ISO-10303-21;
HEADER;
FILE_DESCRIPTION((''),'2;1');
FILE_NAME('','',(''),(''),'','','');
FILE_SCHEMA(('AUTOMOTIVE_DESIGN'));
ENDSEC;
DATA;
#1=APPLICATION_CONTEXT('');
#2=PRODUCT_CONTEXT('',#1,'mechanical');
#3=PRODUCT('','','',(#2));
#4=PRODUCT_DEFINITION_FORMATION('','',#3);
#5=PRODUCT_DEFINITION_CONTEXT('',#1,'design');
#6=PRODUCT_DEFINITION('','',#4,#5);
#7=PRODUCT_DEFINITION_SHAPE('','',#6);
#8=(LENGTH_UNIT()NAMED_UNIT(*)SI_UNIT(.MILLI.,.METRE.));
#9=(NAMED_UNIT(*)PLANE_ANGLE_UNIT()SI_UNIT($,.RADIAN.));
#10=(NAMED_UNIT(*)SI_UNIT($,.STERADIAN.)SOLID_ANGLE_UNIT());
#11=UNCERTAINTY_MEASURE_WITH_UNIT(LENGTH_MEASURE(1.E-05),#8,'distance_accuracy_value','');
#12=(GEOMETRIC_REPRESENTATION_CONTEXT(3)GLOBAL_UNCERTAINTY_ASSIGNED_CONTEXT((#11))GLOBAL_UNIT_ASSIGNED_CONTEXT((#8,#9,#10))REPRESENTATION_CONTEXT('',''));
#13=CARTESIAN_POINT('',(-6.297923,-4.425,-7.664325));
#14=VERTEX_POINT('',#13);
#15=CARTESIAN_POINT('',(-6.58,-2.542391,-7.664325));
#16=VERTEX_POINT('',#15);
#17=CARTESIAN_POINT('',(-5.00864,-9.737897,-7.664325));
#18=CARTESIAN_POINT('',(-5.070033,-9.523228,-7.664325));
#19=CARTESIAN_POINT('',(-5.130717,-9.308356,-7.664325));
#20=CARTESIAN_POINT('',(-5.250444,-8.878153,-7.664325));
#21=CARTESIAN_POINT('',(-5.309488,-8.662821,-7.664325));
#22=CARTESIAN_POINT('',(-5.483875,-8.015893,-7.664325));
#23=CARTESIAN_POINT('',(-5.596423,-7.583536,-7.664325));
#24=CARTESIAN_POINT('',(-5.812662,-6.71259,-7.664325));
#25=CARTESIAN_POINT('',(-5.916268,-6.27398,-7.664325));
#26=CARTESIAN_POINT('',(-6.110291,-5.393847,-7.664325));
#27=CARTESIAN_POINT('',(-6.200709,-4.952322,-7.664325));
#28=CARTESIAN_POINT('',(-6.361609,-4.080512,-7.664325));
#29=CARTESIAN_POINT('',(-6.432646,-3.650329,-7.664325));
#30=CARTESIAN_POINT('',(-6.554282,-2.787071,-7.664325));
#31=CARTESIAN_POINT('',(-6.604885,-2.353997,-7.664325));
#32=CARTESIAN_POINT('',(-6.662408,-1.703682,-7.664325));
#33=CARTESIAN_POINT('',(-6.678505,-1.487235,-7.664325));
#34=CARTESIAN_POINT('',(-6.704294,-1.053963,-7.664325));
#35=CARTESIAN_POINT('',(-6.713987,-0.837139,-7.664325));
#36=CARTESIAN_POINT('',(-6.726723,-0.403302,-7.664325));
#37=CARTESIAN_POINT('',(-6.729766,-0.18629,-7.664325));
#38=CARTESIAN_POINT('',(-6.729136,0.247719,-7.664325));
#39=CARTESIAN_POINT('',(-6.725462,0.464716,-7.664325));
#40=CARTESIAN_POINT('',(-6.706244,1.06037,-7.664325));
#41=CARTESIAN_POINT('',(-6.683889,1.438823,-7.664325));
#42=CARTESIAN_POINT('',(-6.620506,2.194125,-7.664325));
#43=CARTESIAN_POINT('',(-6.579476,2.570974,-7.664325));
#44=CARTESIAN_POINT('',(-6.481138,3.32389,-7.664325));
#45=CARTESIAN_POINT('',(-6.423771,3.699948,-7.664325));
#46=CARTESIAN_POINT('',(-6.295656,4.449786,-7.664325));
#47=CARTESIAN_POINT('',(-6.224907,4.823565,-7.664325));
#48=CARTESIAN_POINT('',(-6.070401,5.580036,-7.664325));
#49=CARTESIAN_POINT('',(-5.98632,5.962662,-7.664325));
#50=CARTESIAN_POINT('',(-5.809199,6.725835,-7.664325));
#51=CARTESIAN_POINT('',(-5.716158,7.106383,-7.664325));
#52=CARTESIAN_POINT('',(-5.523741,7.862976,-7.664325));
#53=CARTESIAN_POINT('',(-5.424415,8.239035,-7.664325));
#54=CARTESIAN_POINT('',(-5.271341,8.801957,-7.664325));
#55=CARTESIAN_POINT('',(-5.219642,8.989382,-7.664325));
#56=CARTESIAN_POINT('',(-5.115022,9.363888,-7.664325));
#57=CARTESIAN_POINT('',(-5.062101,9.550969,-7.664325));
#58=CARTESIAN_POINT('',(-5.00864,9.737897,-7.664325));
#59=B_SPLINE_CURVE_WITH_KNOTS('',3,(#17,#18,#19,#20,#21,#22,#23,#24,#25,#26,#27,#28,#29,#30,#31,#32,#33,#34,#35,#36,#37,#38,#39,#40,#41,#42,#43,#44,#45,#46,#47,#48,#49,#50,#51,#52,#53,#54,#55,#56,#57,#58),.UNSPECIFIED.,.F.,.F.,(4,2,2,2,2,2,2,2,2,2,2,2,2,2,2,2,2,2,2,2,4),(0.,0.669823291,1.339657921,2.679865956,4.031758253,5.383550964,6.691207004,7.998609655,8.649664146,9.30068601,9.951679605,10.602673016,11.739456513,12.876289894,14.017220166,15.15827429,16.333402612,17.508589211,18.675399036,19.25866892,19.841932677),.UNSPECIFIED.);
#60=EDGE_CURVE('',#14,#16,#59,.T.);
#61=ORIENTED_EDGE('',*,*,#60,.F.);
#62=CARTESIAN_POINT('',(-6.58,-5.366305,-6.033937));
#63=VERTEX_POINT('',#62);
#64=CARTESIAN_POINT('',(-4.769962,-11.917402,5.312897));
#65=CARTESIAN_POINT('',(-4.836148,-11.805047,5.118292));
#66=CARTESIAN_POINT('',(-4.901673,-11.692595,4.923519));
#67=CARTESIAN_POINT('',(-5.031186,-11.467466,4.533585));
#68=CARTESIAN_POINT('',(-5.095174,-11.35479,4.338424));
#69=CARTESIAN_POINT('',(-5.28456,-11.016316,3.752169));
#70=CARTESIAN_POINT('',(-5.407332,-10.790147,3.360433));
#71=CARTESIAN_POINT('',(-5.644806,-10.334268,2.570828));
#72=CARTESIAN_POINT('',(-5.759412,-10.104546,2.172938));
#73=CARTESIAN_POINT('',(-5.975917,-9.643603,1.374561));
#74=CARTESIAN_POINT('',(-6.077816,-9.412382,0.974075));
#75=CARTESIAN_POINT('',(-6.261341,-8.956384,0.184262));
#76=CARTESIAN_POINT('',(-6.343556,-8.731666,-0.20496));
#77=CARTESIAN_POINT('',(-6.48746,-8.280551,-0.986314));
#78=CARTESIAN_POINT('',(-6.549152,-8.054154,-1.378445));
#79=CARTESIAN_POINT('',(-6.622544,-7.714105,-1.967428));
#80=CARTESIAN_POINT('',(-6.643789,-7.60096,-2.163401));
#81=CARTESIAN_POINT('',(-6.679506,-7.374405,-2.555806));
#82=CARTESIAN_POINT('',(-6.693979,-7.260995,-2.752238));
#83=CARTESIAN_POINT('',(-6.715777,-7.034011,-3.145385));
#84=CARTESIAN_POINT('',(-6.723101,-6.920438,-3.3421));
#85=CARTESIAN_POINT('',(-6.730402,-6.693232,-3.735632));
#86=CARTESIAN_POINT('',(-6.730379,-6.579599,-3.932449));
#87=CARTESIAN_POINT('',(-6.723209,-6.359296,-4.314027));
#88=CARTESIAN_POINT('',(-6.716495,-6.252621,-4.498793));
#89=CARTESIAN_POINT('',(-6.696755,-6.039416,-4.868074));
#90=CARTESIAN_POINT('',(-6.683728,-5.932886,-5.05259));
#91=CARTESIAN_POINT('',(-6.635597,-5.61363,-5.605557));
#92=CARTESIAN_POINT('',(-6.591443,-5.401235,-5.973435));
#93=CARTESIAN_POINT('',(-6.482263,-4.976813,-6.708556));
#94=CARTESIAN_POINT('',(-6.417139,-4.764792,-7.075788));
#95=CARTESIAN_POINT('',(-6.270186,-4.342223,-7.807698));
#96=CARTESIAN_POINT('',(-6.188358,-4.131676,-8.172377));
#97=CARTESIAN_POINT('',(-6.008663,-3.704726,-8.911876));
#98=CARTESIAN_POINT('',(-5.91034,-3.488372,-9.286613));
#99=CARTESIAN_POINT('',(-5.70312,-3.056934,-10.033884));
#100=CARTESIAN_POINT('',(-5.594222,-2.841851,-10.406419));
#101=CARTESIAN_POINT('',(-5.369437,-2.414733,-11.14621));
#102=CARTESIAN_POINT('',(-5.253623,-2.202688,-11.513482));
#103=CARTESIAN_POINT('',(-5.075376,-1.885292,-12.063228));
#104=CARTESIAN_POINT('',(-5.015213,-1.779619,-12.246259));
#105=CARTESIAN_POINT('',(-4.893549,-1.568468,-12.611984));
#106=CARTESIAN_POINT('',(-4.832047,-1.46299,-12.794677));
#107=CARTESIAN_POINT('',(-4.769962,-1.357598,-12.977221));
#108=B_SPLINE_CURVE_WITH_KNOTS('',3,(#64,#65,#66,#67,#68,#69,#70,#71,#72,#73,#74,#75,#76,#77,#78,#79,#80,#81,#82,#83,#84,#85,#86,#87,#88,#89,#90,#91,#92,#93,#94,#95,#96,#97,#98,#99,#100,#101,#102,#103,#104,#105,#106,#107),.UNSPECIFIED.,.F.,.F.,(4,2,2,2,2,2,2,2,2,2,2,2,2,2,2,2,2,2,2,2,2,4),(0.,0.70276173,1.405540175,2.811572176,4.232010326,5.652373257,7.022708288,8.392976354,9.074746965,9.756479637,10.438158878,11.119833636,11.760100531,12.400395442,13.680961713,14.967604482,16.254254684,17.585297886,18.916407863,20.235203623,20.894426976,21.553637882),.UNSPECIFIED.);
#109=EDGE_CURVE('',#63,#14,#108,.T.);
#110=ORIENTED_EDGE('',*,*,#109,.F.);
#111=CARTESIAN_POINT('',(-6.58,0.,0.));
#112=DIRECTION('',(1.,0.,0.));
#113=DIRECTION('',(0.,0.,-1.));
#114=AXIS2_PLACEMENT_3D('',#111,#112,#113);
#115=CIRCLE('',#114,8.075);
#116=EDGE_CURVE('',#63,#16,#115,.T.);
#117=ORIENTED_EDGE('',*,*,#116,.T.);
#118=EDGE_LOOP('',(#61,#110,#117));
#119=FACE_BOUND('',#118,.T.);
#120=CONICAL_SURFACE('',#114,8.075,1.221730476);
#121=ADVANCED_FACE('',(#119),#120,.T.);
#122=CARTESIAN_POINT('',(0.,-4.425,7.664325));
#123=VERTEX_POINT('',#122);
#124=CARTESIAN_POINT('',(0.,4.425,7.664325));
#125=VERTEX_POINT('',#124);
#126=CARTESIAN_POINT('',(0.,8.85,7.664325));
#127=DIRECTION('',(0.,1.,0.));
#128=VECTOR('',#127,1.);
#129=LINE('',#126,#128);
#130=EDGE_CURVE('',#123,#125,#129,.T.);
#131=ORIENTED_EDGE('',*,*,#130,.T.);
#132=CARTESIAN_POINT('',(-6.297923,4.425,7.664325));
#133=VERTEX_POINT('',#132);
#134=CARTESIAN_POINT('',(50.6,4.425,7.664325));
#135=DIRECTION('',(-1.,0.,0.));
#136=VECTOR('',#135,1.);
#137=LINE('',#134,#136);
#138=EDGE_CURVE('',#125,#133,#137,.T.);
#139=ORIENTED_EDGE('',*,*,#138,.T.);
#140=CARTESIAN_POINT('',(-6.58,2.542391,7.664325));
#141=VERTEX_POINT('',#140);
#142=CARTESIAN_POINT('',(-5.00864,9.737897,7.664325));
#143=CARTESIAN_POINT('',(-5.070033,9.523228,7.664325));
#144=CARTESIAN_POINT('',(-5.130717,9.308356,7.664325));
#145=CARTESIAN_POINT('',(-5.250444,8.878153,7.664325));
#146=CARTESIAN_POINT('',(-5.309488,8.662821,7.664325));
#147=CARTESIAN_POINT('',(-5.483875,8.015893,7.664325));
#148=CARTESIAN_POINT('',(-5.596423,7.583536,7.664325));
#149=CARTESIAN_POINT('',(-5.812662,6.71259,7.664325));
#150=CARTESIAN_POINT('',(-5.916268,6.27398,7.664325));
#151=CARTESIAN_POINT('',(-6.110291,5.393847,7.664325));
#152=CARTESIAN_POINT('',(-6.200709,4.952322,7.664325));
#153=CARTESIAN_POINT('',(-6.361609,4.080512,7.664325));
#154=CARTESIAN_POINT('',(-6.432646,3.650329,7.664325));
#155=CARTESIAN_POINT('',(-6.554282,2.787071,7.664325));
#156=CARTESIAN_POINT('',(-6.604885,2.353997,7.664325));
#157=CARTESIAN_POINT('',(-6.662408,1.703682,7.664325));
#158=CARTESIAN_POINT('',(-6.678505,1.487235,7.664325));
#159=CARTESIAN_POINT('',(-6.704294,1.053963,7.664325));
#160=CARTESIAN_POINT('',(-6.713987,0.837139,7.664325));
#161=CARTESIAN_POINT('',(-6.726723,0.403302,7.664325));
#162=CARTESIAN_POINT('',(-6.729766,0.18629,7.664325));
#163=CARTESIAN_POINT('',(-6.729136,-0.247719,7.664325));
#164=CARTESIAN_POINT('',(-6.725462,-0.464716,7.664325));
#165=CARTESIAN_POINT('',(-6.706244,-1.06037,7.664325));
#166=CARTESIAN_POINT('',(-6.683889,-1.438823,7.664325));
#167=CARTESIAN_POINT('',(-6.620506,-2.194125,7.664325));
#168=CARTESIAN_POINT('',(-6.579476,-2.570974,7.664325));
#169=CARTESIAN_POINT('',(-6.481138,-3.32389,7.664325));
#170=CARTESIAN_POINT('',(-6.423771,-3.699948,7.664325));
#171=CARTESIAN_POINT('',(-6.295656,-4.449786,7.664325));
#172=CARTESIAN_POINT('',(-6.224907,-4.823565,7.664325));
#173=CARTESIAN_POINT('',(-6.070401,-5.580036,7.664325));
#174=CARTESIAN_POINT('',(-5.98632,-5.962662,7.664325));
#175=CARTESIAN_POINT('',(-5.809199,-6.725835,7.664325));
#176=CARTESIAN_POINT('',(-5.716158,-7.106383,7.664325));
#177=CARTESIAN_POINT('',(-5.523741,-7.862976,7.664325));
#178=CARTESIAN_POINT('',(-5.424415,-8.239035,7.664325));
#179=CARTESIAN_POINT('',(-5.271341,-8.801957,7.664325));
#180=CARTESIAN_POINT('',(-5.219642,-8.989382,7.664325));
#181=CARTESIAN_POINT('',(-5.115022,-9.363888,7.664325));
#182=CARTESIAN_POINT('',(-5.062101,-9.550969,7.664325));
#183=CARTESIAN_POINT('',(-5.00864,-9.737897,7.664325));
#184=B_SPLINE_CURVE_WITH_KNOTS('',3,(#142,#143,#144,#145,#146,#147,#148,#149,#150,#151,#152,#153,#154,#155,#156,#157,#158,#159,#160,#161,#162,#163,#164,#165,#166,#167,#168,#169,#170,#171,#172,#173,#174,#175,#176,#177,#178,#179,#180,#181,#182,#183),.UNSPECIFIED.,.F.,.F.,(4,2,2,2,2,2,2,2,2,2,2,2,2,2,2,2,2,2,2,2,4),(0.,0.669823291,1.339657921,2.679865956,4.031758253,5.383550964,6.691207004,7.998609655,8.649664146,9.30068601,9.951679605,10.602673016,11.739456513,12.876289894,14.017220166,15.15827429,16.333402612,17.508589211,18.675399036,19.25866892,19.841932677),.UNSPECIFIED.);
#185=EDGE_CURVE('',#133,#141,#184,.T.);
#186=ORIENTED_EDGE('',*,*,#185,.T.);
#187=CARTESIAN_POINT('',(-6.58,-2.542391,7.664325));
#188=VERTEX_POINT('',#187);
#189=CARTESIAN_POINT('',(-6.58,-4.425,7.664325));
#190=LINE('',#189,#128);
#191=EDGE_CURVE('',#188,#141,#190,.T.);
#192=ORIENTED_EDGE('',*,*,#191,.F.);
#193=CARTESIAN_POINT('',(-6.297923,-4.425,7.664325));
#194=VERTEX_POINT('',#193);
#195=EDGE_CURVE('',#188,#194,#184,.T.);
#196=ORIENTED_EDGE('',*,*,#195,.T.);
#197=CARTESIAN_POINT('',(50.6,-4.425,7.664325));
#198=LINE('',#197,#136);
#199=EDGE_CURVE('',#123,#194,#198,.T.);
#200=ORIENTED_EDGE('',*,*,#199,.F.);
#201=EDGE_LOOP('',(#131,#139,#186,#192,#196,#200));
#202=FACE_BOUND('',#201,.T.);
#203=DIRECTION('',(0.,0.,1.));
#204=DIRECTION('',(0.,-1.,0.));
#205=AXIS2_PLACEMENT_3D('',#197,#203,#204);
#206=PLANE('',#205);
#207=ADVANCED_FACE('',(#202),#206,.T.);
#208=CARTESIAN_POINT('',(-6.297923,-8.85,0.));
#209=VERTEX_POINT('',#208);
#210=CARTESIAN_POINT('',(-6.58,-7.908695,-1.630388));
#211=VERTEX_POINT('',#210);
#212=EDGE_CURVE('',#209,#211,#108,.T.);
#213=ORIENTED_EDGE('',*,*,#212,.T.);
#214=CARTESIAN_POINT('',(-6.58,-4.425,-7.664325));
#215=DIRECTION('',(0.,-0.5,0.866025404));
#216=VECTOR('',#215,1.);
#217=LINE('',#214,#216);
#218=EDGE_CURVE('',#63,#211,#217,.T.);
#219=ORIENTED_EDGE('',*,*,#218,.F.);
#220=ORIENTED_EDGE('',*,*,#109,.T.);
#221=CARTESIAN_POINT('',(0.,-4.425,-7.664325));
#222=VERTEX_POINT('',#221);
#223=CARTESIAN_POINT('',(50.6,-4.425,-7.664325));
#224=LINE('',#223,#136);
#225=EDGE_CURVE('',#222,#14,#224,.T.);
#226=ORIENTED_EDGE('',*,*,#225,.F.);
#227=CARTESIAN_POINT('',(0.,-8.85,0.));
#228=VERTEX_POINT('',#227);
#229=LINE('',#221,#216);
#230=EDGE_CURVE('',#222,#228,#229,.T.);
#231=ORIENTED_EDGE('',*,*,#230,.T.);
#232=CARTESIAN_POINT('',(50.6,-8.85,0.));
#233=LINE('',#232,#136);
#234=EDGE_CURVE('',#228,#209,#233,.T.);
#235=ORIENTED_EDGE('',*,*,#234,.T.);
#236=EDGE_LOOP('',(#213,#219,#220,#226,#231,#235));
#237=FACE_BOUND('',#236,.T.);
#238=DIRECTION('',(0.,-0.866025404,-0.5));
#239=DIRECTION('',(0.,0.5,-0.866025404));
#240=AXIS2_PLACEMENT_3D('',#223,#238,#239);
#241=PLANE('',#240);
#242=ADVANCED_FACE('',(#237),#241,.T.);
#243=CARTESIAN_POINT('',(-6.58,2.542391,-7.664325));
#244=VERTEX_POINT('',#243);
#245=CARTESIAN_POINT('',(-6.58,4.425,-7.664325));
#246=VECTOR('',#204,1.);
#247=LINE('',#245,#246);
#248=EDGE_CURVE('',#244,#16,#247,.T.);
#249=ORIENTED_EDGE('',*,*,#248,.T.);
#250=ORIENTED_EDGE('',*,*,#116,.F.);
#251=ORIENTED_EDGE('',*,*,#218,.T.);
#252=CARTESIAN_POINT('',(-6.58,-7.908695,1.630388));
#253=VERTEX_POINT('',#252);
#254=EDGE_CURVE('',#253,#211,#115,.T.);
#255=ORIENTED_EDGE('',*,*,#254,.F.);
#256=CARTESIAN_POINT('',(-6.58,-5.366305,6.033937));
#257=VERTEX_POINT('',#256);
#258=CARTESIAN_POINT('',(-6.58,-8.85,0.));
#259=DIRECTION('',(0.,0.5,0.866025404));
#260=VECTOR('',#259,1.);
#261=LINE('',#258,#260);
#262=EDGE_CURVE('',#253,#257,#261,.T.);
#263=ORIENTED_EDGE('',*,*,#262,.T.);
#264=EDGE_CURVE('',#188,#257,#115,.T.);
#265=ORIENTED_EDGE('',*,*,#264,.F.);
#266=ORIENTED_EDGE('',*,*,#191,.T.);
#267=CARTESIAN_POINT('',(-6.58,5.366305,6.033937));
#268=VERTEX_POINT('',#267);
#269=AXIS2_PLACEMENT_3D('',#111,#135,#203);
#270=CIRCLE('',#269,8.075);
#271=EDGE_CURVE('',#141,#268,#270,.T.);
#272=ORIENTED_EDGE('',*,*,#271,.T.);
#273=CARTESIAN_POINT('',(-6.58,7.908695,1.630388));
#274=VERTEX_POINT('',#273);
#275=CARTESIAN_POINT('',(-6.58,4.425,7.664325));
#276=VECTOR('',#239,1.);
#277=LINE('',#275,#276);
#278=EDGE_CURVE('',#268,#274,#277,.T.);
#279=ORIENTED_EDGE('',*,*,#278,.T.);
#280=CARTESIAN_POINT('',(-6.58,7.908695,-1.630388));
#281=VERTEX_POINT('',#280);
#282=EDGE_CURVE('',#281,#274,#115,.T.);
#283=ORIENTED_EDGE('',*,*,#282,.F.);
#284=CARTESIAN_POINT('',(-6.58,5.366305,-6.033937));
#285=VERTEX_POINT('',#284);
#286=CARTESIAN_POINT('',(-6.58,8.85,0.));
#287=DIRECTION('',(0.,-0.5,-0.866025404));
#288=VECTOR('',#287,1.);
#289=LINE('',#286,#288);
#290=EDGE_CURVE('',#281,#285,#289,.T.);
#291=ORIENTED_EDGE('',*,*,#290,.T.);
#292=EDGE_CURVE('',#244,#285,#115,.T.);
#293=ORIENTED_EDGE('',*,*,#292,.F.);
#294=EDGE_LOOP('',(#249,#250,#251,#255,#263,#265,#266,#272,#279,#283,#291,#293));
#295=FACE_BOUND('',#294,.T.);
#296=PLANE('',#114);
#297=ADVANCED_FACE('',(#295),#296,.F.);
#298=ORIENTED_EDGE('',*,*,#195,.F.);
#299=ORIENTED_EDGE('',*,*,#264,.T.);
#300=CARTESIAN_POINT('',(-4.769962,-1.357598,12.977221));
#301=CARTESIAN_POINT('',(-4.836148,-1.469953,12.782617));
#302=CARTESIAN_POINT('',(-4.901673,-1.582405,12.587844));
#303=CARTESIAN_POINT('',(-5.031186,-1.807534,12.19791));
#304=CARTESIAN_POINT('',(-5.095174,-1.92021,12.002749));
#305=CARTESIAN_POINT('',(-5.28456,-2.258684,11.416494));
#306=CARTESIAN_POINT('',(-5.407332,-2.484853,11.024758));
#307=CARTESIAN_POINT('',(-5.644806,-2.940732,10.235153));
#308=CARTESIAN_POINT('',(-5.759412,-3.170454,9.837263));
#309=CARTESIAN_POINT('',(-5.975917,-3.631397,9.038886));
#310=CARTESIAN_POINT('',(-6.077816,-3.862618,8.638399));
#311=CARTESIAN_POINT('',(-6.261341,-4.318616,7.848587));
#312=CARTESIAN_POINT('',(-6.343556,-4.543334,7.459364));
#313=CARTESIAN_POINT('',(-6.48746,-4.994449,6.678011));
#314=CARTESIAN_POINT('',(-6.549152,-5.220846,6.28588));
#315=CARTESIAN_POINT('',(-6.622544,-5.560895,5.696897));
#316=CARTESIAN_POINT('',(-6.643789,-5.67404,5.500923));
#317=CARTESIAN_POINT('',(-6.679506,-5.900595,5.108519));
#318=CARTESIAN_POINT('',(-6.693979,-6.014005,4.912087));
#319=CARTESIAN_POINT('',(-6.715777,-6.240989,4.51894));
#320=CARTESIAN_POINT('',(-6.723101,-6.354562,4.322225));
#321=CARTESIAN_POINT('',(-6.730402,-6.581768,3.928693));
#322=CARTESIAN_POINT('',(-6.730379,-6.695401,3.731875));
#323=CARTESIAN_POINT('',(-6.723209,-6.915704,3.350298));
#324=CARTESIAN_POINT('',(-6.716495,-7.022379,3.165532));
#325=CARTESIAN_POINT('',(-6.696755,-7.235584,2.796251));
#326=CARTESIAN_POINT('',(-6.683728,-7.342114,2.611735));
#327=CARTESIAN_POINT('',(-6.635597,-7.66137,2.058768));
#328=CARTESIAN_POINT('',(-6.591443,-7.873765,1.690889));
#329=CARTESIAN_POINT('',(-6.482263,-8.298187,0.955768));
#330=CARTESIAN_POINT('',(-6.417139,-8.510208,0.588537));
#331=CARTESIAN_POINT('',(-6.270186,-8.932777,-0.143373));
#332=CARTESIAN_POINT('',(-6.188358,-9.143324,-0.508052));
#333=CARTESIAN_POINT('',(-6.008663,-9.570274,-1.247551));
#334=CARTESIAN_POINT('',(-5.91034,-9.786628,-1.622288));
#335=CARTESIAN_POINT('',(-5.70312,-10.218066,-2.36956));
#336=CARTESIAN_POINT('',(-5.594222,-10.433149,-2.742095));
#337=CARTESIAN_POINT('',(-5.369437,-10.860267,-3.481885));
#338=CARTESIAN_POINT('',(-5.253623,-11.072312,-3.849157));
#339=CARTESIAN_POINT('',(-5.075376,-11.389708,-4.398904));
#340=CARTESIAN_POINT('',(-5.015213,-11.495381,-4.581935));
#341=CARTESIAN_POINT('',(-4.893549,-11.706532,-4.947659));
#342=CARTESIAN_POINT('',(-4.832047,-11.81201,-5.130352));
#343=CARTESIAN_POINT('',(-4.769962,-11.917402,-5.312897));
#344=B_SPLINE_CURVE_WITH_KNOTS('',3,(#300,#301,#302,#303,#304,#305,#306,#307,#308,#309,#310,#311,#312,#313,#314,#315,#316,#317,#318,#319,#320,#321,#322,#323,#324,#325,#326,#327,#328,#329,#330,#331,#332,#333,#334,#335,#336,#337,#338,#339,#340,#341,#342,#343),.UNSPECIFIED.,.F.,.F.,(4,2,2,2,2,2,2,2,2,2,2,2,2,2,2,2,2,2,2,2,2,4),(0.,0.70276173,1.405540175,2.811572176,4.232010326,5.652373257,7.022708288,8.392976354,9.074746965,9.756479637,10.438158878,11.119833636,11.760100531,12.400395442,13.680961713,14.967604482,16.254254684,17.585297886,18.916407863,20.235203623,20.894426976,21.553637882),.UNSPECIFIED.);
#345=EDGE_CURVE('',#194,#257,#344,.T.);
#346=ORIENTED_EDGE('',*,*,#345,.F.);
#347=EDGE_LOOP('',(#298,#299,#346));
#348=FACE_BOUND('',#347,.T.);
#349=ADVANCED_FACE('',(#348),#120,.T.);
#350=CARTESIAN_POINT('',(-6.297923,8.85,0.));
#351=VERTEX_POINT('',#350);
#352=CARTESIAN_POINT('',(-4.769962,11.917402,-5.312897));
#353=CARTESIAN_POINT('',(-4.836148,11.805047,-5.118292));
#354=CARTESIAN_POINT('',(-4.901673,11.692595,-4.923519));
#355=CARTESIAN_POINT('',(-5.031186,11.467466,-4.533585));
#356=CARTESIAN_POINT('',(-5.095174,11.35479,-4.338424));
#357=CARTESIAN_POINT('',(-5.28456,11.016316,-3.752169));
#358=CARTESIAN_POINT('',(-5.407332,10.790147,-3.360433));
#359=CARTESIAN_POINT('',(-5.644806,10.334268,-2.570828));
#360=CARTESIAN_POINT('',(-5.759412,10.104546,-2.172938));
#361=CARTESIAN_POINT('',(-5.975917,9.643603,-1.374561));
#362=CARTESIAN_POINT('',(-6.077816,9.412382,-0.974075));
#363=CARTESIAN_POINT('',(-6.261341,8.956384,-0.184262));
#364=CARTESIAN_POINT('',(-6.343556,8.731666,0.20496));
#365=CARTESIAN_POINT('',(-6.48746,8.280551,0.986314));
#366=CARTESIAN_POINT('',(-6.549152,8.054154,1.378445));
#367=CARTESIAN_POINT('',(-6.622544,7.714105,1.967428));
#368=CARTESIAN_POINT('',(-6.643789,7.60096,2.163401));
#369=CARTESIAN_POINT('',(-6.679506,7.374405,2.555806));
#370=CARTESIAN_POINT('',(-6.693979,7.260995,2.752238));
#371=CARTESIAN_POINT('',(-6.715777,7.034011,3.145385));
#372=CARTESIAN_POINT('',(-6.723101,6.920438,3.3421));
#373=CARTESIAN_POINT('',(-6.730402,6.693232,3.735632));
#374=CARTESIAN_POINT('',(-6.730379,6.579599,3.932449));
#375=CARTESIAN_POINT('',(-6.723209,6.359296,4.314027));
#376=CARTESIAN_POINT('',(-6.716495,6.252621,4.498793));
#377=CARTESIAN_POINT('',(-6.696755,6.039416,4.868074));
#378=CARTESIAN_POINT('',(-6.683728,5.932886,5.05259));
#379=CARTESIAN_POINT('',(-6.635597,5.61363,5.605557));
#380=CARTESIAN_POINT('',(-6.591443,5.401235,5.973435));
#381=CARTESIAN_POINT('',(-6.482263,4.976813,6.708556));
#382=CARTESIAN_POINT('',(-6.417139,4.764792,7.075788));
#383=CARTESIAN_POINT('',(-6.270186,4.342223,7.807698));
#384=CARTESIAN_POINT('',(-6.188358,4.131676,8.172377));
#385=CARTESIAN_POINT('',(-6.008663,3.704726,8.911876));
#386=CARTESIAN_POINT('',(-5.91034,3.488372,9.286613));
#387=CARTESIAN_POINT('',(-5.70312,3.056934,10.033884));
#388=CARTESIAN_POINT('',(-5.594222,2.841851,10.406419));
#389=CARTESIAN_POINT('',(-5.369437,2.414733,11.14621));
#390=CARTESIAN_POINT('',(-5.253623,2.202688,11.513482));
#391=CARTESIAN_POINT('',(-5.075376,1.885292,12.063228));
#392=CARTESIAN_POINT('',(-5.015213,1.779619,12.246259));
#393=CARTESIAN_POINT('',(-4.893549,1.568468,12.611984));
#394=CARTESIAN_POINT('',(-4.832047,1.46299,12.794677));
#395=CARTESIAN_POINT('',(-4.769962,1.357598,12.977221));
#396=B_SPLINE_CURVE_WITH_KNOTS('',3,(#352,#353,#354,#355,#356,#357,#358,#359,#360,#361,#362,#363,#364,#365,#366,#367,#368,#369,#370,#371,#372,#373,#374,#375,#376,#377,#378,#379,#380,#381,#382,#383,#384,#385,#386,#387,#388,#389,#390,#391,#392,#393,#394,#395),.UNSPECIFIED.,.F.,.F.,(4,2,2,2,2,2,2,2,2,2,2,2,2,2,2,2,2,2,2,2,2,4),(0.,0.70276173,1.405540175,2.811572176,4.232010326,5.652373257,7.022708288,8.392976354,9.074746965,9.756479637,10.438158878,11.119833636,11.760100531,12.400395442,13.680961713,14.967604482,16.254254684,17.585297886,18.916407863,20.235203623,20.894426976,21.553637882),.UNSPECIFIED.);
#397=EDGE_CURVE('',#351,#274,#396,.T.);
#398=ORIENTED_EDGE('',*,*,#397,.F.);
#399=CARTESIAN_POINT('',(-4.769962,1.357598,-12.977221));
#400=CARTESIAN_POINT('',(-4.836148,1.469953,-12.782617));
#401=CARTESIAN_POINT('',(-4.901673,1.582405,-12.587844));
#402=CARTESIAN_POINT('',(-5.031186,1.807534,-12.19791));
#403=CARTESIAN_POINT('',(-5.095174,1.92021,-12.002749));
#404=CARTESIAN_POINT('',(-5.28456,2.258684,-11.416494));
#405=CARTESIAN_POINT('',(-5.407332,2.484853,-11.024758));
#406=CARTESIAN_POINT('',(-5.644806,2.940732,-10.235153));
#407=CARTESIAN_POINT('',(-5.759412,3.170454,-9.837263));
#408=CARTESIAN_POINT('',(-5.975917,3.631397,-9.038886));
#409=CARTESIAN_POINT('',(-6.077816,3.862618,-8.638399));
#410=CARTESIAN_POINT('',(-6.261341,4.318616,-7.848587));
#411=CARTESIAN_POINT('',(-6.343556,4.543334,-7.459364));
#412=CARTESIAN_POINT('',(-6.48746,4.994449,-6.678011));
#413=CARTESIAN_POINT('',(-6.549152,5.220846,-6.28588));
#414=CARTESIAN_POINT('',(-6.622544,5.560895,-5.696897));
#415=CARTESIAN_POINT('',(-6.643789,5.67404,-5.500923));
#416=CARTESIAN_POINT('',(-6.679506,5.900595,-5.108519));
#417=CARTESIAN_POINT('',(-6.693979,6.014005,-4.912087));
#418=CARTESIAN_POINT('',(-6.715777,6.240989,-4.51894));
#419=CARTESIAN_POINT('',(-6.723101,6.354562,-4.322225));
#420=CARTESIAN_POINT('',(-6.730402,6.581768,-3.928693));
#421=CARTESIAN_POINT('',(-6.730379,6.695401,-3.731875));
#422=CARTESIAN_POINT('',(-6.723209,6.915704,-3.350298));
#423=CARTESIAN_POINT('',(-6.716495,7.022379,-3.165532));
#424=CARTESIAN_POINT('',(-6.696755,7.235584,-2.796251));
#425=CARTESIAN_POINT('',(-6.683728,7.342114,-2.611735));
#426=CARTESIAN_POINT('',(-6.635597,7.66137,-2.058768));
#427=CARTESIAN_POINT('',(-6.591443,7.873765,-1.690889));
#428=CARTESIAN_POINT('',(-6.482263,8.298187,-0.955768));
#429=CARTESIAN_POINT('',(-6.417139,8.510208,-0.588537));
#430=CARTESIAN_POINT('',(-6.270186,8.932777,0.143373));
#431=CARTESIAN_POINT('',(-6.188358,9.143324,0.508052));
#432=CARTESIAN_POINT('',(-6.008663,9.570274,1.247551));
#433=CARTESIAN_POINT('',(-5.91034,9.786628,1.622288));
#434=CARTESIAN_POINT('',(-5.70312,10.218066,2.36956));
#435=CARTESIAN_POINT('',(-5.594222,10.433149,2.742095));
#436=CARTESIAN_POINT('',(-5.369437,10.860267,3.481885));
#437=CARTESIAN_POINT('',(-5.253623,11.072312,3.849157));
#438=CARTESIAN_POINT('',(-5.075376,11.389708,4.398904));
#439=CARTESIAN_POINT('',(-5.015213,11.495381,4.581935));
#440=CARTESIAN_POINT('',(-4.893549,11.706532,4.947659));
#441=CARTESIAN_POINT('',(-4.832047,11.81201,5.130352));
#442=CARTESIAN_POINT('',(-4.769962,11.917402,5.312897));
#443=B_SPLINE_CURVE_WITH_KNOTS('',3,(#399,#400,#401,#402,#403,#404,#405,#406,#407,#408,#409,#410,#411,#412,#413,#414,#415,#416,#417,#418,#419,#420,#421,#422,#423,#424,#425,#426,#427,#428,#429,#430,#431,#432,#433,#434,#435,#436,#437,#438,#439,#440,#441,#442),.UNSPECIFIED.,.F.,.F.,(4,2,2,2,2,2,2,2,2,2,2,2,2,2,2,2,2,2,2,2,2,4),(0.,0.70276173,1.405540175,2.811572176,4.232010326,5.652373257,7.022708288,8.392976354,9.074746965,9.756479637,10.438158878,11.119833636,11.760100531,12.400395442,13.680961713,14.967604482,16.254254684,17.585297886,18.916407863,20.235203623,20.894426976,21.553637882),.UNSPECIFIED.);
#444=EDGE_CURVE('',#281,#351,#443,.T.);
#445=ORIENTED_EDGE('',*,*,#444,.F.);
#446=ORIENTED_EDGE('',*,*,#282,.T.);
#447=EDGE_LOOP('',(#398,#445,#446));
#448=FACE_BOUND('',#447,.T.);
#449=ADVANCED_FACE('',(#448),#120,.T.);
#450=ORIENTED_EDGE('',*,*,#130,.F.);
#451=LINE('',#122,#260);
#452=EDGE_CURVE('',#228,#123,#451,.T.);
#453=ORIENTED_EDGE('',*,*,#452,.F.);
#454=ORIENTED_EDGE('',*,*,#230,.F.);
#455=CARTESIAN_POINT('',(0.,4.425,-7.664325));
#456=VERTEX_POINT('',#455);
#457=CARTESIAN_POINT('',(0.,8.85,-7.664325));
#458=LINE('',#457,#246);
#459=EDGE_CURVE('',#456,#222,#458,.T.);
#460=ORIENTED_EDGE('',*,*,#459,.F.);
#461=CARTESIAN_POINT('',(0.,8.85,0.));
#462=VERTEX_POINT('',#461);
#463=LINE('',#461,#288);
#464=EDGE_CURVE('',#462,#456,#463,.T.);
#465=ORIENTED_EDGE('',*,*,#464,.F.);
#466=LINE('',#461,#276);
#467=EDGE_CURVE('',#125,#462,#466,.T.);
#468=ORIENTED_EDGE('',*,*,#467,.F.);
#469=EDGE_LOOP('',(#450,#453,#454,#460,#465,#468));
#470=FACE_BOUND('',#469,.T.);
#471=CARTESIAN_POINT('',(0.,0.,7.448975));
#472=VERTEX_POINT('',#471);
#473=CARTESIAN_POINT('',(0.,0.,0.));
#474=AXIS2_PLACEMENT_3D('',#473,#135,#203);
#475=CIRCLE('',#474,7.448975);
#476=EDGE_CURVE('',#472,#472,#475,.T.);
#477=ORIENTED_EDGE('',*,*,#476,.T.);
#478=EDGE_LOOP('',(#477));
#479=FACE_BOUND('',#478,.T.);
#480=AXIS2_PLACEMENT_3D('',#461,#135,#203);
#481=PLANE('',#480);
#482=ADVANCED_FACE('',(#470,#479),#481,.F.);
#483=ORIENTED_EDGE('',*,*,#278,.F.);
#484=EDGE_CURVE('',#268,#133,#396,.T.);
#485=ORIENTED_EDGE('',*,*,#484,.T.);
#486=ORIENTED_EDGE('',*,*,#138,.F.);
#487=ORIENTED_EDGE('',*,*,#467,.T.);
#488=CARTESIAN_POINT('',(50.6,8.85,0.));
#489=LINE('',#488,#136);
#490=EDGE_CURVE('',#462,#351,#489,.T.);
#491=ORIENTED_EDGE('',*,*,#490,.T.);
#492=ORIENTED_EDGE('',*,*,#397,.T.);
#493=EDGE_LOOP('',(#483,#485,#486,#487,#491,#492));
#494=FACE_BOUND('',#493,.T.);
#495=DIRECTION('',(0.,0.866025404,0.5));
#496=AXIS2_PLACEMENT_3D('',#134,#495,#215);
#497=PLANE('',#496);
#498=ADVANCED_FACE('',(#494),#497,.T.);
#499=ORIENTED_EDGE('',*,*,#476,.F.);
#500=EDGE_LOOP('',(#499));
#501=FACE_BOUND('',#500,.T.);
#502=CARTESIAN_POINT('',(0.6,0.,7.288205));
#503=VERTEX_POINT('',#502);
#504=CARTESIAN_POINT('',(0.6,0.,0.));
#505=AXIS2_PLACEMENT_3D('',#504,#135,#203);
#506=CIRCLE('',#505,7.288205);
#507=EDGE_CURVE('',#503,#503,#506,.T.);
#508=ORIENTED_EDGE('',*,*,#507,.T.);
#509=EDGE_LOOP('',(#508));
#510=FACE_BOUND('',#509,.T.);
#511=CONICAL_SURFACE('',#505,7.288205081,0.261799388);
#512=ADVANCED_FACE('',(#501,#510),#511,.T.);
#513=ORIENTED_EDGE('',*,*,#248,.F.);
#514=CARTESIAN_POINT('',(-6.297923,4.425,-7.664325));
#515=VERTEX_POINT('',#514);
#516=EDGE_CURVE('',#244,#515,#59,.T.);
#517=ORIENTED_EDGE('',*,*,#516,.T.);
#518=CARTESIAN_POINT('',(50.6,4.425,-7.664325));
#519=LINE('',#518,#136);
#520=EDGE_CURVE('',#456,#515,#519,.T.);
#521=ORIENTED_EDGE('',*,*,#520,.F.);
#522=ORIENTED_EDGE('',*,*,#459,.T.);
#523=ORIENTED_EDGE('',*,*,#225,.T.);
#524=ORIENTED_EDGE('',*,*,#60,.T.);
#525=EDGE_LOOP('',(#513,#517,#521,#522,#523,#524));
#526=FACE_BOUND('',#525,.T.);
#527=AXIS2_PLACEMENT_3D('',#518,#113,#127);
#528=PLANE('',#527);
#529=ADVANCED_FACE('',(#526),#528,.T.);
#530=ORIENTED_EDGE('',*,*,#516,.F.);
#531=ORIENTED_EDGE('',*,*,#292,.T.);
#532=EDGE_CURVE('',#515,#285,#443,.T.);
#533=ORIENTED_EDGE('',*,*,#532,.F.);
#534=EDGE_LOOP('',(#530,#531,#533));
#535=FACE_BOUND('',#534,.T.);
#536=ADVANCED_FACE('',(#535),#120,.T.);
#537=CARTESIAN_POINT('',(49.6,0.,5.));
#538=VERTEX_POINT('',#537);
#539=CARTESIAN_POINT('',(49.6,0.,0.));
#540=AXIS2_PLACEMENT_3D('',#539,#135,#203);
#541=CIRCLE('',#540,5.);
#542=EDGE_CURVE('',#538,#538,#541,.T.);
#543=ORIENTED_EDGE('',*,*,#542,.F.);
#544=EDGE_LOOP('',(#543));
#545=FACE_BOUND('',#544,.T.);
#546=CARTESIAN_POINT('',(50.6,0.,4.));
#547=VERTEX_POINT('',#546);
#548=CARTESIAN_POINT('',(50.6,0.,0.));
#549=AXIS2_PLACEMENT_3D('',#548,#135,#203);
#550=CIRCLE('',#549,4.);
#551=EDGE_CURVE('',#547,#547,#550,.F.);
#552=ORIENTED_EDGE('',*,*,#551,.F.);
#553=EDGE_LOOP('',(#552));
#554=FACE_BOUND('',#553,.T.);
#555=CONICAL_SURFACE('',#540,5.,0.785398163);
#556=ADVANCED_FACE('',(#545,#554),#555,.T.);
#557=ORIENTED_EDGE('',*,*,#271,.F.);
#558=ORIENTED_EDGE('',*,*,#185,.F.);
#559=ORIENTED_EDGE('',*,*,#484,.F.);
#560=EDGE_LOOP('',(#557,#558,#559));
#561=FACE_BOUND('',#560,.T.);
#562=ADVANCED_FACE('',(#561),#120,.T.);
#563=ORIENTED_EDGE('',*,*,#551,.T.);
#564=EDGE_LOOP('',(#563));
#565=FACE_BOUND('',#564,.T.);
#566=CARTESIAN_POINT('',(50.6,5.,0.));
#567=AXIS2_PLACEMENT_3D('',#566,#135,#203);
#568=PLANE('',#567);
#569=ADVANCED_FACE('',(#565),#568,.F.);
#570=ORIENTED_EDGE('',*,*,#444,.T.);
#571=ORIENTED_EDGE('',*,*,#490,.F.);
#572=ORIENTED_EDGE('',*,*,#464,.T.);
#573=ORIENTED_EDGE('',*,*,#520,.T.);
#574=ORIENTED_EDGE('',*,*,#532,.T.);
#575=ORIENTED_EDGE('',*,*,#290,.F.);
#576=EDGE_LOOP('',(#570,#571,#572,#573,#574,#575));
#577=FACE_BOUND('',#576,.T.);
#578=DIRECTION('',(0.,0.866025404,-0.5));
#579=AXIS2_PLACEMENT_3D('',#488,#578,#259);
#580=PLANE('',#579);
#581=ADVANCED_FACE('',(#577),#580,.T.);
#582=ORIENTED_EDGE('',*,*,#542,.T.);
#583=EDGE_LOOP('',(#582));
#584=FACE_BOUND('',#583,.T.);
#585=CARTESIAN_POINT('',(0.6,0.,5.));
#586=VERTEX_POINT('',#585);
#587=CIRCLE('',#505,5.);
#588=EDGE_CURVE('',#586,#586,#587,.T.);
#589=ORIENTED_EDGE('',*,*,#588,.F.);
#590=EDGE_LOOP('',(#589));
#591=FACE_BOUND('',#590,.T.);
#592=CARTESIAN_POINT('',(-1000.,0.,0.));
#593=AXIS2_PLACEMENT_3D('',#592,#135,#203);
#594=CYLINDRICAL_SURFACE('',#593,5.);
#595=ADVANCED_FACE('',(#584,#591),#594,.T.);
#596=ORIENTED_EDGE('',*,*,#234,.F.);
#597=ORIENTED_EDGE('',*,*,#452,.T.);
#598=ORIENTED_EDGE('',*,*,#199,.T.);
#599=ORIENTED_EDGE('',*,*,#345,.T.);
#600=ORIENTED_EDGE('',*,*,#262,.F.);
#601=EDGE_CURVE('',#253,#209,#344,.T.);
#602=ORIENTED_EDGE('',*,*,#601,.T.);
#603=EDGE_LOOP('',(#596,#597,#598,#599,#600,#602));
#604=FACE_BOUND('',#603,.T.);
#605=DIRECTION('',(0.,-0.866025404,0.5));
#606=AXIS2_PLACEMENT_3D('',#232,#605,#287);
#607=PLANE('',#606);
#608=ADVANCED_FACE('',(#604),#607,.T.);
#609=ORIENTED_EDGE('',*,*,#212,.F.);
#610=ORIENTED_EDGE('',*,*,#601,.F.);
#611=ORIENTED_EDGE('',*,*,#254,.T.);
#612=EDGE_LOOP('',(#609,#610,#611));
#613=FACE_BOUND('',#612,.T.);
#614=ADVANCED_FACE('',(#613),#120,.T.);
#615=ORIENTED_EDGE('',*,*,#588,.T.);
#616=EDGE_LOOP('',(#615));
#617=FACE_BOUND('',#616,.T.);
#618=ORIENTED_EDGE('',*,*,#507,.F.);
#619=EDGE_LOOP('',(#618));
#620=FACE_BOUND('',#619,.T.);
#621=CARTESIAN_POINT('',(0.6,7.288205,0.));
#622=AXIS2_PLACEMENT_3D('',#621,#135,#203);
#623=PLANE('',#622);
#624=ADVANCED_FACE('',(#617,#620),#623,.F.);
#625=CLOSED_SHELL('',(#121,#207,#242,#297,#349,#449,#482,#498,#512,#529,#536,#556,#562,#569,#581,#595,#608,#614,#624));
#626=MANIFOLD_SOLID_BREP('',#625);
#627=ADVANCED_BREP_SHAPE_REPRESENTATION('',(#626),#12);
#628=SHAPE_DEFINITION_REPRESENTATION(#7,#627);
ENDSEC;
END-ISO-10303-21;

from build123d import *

# Parameters (mm, degrees)
SKETCH_2_OUTSIDE_W  = 32.184
SKETCH_2_OUTSIDE_H  = 32.184
CUT_EXTRUDE_1_DEPTH = 59.533728738
CHAMFER_1_SIZE      = 1


with BuildPart() as part:
    # Эскиз1 → Повернуть1 (revolve)
    with BuildSketch(Plane.XY, mode=Mode.PRIVATE) as revolve_1_sk:
        Polygon((-6.58, 0), (-6.58, 8.85), (0, 8.85), (0, 7.448974596), (0.6, 7.288205081), (0.6, 5), (50.6, 5), (50.6, 0), align=None)
    revolve(revolve_1_sk.sketch.rotate(Axis((-1000, 0, 0), (1, 0, 0)), 90), axis=Axis((-1000, 0, 0), (1, 0, 0)))

    # Эскиз2 outside → Вырез-Вытянуть1 (cut, through all)
    with BuildSketch(Plane.ZY.offset(6.58)):
        Rectangle(SKETCH_2_OUTSIDE_W, SKETCH_2_OUTSIDE_H)
        Polygon((0, -8.85), (7.664324823, -4.425), (7.664324823, 4.425), (0, 8.85), (-7.664324823, 4.425), (-7.664324823, -4.425), align=None, mode=Mode.SUBTRACT)
    extrude(amount=-CUT_EXTRUDE_1_DEPTH, mode=Mode.SUBTRACT)

    # Эскиз4 → Вырез-Повернуть1 (revolve, cut)
    with BuildSketch(Plane.XY):
        Polygon((-6.58, 8.075), (-6.297923068, 8.85), (-6.58, 8.85), align=None)
    revolve(axis=Axis((-1000, 0, 0), (1, 0, 0)), mode=Mode.SUBTRACT)

    # Фаска1
    chamfer_1_edges = [part.edges().sort_by_distance(p)[0] for p in [
        (50.6, 0, -5),
    ]]
    chamfer(chamfer_1_edges, length=CHAMFER_1_SIZE)


solid = part.part
